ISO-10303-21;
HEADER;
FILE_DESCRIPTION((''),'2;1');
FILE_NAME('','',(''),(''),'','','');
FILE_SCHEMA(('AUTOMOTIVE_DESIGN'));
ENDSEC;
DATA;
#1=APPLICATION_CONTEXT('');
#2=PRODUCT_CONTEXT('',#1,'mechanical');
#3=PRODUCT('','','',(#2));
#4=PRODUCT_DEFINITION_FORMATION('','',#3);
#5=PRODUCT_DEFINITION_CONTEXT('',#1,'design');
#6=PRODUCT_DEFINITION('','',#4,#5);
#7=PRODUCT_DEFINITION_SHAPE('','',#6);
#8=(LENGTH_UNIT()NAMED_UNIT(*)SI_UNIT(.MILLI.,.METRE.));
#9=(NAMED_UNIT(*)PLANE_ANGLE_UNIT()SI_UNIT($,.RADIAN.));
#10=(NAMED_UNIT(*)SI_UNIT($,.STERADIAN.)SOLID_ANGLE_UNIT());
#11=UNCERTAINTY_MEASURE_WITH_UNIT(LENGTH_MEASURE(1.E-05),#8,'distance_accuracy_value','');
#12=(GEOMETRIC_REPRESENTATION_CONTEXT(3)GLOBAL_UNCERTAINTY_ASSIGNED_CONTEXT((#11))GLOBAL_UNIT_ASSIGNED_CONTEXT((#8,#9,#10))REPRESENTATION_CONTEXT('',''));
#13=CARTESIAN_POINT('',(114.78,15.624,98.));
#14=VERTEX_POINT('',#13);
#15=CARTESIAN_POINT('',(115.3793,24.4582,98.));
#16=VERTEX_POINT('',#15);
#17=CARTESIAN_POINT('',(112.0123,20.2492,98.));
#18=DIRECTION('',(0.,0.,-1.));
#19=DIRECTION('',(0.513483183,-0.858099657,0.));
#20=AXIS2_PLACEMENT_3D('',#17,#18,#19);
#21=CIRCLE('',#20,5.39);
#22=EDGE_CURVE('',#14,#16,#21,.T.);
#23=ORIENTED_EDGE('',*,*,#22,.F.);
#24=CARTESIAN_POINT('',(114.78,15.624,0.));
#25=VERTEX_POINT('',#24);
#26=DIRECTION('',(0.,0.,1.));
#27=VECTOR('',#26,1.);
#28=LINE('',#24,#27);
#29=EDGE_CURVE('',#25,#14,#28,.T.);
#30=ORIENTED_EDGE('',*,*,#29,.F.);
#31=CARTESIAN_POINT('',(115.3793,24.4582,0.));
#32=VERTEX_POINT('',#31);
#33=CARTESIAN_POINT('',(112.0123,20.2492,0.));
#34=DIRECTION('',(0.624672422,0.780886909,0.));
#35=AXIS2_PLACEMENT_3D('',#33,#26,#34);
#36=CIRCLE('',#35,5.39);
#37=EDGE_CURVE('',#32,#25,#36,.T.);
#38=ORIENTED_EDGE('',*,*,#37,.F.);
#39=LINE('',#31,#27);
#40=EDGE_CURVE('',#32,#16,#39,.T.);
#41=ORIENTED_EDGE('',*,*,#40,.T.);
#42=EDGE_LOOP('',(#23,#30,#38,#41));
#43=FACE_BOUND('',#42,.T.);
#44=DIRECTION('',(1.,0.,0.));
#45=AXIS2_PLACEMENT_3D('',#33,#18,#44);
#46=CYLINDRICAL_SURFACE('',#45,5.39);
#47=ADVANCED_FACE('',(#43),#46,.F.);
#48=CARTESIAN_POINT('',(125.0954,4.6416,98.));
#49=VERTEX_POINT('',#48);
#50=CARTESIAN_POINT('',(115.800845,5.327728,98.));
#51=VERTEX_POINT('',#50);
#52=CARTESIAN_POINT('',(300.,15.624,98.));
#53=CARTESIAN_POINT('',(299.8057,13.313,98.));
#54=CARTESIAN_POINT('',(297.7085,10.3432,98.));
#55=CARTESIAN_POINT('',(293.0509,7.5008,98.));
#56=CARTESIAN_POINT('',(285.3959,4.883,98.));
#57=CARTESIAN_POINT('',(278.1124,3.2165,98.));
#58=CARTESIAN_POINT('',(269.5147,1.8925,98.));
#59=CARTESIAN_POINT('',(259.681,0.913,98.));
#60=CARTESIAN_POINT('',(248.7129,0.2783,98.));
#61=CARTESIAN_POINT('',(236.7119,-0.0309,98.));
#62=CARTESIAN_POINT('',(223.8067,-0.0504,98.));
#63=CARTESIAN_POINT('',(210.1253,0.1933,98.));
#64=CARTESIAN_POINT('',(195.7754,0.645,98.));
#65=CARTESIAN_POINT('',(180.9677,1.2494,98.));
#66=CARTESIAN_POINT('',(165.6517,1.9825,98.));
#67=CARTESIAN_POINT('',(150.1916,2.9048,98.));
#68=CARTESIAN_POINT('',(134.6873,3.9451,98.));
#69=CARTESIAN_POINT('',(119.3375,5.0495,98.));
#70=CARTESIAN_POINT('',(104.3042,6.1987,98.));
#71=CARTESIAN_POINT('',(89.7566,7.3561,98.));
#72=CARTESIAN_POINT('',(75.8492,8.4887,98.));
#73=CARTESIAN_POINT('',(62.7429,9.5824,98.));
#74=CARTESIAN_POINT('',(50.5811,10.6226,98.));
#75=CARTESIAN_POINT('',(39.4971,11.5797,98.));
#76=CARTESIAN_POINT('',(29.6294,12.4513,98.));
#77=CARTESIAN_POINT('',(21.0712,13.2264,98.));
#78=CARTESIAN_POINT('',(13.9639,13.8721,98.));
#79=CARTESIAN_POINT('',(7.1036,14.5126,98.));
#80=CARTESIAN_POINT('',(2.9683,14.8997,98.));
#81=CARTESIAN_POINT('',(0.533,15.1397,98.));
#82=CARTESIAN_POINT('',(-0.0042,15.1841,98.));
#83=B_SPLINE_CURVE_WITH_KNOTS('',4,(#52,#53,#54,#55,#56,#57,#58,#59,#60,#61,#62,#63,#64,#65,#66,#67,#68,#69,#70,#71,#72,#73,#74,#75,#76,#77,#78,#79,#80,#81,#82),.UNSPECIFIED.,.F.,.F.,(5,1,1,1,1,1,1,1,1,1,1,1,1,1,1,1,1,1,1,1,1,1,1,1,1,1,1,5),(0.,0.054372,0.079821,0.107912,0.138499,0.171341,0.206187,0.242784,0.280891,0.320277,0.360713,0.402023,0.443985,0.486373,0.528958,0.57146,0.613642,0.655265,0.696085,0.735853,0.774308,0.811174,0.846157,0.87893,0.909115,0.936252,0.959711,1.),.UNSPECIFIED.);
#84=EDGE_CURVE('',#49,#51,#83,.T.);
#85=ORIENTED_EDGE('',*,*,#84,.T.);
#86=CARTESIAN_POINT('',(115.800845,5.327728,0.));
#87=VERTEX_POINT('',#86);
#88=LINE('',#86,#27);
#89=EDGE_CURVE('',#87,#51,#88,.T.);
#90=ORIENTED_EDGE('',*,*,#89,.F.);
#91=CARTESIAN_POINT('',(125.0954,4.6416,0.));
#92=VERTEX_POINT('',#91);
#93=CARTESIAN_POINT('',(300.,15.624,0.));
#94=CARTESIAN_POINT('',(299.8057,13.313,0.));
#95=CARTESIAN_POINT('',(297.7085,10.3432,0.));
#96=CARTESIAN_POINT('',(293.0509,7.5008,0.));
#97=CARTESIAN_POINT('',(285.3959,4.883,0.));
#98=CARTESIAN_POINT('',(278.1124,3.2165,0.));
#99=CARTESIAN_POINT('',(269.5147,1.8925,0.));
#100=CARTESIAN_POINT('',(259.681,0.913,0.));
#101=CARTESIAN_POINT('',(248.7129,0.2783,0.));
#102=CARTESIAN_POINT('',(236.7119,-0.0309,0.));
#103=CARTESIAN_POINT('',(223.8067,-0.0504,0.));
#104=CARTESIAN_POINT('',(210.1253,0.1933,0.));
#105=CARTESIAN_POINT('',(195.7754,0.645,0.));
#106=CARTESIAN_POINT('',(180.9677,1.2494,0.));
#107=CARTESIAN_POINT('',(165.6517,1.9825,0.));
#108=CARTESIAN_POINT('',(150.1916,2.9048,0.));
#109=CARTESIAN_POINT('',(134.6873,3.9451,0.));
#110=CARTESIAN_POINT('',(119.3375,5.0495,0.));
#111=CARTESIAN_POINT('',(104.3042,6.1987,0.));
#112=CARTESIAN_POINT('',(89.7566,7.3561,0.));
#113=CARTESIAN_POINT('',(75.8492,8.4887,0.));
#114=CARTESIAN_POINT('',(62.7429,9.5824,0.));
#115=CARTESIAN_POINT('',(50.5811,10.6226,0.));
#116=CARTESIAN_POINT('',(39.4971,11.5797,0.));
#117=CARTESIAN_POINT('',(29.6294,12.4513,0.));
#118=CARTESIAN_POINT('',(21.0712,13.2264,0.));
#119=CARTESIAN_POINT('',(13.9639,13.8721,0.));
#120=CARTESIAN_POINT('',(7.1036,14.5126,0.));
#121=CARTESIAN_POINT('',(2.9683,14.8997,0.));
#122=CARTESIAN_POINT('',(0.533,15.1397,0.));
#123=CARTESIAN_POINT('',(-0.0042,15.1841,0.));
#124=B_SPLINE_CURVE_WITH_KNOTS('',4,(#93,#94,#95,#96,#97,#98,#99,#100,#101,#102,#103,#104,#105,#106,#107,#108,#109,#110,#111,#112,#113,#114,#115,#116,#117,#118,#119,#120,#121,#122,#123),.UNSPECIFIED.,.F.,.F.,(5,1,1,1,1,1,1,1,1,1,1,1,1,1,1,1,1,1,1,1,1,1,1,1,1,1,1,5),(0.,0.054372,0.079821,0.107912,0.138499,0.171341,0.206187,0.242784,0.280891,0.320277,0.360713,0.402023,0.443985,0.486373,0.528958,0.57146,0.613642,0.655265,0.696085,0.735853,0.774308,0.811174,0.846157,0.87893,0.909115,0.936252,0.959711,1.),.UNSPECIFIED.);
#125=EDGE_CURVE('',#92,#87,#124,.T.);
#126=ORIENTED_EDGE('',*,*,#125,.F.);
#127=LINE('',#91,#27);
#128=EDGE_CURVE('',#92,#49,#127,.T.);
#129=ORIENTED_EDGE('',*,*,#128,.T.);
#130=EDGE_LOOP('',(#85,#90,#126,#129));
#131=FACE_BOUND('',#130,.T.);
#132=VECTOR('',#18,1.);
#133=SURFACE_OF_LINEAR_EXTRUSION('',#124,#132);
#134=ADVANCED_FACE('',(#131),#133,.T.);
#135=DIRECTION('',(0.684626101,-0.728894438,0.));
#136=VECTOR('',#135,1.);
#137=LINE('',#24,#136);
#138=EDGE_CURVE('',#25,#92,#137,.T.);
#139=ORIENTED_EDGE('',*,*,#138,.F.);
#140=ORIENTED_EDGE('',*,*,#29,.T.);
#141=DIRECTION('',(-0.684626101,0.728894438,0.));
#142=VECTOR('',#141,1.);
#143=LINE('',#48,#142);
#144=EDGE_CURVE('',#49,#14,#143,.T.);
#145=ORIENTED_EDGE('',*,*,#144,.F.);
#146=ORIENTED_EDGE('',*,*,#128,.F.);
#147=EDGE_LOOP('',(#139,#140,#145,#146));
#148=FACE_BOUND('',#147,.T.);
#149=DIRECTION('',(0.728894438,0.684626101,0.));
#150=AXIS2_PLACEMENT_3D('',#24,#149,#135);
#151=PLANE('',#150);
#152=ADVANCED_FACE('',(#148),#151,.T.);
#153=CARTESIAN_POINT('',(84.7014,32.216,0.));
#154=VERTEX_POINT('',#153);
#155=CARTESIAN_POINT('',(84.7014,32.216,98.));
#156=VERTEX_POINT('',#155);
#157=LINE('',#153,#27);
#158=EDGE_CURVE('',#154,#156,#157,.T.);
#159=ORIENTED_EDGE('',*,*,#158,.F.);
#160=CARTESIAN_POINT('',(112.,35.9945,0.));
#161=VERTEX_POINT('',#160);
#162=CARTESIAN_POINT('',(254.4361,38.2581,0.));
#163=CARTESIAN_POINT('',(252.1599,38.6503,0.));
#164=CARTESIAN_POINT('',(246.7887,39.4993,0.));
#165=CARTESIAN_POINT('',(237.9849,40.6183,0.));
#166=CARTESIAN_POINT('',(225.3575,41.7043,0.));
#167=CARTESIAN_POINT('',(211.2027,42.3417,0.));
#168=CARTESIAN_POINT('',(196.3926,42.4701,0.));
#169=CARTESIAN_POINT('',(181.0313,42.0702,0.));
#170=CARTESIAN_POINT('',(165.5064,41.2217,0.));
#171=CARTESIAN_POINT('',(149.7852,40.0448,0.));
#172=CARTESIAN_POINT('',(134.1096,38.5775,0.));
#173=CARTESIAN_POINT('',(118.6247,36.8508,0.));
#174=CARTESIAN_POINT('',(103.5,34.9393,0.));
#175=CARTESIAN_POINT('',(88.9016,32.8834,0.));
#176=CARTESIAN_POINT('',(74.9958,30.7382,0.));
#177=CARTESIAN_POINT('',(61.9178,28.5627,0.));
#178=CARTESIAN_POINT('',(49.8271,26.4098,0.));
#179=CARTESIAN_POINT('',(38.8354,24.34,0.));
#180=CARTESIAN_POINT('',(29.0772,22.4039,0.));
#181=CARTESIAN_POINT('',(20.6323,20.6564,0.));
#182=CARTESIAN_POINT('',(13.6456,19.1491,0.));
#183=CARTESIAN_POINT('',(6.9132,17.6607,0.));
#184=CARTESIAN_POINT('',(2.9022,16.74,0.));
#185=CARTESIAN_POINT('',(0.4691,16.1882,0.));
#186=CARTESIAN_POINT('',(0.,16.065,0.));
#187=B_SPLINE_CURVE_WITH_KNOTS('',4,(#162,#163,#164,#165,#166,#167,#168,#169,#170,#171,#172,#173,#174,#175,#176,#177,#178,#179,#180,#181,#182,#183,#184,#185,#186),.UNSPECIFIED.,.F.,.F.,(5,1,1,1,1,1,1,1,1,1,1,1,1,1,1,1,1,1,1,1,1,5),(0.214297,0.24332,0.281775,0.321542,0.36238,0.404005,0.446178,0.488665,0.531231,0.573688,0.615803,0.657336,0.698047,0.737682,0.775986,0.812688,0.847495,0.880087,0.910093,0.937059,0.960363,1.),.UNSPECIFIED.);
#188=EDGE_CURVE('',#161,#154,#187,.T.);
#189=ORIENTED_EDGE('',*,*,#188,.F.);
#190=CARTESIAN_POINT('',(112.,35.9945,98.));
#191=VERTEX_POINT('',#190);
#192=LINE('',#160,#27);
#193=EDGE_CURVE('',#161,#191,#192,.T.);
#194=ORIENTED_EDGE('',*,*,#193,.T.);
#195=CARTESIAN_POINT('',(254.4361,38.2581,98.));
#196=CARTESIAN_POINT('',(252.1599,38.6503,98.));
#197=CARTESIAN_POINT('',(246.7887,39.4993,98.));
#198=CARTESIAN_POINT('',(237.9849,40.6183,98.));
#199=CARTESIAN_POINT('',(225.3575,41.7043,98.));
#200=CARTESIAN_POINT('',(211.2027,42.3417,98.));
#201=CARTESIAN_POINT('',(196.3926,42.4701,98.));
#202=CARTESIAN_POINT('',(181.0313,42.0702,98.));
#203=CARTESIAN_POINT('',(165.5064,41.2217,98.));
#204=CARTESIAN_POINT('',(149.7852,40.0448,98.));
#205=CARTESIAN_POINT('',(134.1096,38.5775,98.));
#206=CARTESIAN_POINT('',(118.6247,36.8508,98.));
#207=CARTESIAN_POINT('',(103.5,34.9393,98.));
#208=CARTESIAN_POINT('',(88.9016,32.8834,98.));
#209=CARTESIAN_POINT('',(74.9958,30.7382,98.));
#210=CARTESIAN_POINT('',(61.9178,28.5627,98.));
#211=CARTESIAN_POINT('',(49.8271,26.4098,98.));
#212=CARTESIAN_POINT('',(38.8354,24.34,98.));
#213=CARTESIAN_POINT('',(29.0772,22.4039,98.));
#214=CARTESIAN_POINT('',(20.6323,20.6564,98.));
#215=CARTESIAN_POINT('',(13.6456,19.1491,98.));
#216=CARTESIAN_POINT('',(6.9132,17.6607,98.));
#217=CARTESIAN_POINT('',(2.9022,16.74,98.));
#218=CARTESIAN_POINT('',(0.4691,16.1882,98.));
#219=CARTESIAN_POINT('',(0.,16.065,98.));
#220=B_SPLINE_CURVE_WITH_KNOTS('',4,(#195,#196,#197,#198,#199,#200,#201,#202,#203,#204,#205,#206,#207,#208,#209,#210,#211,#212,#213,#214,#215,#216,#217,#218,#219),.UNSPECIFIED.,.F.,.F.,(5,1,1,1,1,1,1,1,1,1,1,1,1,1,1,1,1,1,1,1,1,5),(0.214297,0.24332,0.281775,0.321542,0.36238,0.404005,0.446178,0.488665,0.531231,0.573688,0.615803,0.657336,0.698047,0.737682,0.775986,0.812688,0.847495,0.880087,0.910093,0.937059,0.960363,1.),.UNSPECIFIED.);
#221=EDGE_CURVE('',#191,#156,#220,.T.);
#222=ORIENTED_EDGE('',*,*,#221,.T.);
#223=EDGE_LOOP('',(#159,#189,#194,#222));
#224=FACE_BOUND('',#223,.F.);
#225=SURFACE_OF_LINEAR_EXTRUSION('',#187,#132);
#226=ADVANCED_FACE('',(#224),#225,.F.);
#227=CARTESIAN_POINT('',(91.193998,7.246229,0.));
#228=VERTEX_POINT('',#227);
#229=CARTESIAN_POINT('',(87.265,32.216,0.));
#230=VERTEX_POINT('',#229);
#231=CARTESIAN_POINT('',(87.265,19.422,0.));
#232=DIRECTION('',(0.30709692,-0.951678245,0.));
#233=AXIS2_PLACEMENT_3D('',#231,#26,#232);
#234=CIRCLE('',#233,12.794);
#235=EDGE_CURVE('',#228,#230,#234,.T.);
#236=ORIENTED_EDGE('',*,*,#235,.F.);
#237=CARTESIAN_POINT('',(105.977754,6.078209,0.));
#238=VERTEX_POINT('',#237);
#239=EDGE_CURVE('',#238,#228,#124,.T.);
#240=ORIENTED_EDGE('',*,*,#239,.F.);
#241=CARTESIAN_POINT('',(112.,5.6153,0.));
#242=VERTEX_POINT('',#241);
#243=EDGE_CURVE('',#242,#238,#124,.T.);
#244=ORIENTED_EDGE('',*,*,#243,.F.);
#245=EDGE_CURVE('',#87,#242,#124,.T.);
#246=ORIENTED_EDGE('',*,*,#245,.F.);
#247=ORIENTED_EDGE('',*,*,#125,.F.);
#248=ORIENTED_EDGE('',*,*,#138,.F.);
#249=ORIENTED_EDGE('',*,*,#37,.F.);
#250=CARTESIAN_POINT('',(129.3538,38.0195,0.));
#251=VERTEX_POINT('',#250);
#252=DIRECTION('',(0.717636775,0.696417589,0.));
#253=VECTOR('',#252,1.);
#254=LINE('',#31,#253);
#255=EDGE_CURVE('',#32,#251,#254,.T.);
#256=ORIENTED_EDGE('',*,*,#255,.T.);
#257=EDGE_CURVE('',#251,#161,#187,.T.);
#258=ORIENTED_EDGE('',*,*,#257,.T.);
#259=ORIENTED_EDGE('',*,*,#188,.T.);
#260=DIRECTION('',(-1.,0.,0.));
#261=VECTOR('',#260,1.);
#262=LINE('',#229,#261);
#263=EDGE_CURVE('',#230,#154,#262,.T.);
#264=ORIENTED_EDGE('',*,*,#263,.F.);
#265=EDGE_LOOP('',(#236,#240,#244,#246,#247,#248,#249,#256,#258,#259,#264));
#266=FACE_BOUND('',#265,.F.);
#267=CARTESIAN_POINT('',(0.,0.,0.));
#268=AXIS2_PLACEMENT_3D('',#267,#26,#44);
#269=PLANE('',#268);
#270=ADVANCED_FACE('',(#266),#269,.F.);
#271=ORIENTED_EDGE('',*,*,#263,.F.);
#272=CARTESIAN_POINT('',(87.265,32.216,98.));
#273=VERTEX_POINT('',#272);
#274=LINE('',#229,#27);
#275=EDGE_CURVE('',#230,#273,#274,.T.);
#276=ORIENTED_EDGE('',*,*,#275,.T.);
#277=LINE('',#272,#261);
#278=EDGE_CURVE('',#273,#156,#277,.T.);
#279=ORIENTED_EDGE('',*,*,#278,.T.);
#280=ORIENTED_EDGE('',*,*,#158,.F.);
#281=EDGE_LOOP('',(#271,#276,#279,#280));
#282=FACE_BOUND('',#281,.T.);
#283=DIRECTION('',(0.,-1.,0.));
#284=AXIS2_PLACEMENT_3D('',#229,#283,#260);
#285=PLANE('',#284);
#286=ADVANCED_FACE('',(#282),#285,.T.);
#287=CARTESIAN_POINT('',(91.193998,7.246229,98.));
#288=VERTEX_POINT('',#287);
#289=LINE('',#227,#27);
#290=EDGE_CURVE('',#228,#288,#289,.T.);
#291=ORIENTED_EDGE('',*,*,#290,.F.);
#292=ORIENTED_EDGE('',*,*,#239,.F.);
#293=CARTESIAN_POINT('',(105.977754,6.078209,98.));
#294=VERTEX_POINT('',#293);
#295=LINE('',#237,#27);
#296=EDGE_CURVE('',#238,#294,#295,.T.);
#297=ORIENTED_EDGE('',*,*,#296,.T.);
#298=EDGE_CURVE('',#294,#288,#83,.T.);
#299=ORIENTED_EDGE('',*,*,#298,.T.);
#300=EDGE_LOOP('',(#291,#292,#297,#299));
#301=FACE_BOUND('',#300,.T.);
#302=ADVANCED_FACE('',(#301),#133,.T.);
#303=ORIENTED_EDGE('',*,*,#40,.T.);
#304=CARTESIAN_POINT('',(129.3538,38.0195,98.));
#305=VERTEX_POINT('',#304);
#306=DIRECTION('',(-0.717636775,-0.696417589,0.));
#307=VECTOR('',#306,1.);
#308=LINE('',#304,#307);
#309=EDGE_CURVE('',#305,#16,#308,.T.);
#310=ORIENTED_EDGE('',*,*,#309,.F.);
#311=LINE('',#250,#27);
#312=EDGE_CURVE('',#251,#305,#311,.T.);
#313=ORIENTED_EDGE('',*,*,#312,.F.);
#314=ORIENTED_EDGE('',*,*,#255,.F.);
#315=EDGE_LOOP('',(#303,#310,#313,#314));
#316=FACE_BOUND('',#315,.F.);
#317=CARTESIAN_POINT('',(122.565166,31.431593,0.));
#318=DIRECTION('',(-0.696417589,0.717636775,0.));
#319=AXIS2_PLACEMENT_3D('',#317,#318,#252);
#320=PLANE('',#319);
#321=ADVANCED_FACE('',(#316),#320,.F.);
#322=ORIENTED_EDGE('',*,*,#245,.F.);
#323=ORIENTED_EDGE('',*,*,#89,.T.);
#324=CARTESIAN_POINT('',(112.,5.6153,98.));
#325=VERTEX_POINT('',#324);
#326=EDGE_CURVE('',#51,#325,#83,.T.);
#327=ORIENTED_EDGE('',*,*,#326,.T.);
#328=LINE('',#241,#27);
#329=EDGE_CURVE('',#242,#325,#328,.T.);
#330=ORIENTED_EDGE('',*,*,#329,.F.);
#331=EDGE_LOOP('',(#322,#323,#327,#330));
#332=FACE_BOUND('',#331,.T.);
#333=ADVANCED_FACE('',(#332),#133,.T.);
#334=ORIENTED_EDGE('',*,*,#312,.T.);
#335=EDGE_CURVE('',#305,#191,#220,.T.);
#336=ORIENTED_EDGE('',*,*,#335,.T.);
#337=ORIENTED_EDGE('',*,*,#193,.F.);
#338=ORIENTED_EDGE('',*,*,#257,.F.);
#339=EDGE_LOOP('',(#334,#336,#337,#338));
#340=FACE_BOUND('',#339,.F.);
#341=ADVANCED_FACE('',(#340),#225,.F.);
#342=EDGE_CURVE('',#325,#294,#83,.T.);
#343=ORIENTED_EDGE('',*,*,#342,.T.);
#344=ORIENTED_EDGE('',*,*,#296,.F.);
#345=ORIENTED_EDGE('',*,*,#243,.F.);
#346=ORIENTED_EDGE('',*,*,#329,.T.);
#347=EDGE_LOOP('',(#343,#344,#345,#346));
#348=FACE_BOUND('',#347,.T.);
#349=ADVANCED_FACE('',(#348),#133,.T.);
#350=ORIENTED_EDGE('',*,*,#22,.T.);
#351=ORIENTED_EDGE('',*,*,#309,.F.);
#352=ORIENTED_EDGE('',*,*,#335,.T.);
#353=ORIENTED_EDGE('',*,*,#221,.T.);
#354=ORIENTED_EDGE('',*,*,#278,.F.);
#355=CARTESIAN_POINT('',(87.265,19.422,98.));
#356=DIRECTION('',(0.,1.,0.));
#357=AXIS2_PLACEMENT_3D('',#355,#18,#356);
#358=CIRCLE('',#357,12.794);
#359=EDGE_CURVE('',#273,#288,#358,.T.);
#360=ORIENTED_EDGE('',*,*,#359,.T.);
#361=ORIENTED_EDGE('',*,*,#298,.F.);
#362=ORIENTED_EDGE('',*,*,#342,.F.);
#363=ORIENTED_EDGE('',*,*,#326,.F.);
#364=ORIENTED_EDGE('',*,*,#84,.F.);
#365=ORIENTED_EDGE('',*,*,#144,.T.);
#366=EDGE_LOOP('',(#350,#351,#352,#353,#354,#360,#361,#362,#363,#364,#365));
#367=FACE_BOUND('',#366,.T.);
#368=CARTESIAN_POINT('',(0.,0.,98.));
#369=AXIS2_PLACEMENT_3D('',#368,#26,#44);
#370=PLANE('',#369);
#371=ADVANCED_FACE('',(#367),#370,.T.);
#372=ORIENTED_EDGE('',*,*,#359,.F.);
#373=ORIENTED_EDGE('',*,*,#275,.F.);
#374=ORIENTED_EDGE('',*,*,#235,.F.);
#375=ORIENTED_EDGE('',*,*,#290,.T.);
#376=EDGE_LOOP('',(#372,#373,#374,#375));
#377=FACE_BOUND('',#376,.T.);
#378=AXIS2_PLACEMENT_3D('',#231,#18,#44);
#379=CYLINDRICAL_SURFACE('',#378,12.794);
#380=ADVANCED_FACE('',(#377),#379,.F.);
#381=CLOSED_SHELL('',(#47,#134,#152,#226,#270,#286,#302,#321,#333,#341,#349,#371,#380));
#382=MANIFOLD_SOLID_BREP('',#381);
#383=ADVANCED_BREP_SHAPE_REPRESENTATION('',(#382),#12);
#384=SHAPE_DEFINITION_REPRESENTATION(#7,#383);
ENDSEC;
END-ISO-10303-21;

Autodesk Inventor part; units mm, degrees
ref_plane "YZ Plane" through (0, 0, 0) normal (1, 0, 0) x (0, 1, 0)
ref_plane "XZ Plane" through (0, 0, 0) normal (0, 1, 0) x (-1, 0, 0)
ref_plane "XY Plane" through (0, 0, 0) normal (0, 0, 1) x (1, 0, 0)
sketch "Sketch1" plane through (0, 0, 0) normal (0, 0, 1) x (1, 0, 0)
  spline S0 degree 4 poles (254.4361, 38.2581) (252.1599, 38.6503) (246.7887, 39.4993) (237.9849, 40.6183) (225.3575, 41.7043) (211.2027, 42.3417) (196.3926, 42.4701) (181.0313, 42.0702) (165.5064, 41.2217) (149.7852, 40.0448) (134.1096, 38.5775) (118.6247, 36.8508) (103.5, 34.9393) (88.9016, 32.8834) (74.9958, 30.7382) (61.9178, 28.5627) (49.8271, 26.4098) (38.8354, 24.34) (29.0772, 22.4039) (20.6323, 20.6564) (13.6456, 19.1491) (6.9132, 17.6607) (2.9022, 16.74) (0.4691, 16.1882) (0, 16.065) knots 0.214297 0.214297 0.214297 0.214297 0.214297 0.24332 0.281775 0.321542 0.36238 0.404005 0.446178 0.488665 0.531231 0.573688 0.615803 0.657336 0.698047 0.737682 0.775986 0.812688 0.847495 0.880087 0.910093 0.937059 0.960363 1 1 1 1 1
  spline S1 degree 4 poles (300, 15.624) (299.8057, 13.313) (297.7085, 10.3432) (293.0509, 7.5008) (285.3959, 4.883) (278.1124, 3.2165) (269.5147, 1.8925) (259.681, 0.913) (248.7129, 0.2783) (236.7119, -0.0309) (223.8067, -0.0504) (210.1253, 0.1933) (195.7754, 0.645) (180.9677, 1.2494) (165.6517, 1.9825) (150.1916, 2.9048) (134.6873, 3.9451) (119.3375, 5.0495) (104.3042, 6.1987) (89.7566, 7.3561) (75.8492, 8.4887) (62.7429, 9.5824) (50.5811, 10.6226) (39.4971, 11.5797) (29.6294, 12.4513) (21.0712, 13.2264) (13.9639, 13.8721) (7.1036, 14.5126) (2.9683, 14.8997) (0.533, 15.1397) (-0.0042, 15.1841) knots 0 0 0 0 0 0.054372 0.079821 0.107912 0.138499 0.171341 0.206187 0.242784 0.280891 0.320277 0.360713 0.402023 0.443985 0.486373 0.528958 0.57146 0.613642 0.655265 0.696085 0.735853 0.774308 0.811174 0.846157 0.87893 0.909115 0.936252 0.959711 1 1 1 1 1
  arc A0 (0, 16.065) -> (-0.0042, 15.1841) centre (0.1158, 15.624) ccw
  line L0 (0.1158, 15.624) -> (227.9902, 15.624) construction
  line L1 (300, 15.624) -> (0.1158, 15.624) construction
  line L2 (300, 15.624) -> (200, 15.624) construction
  line L3 (200, 15.624) -> (200, 42.3773) construction
  line L4 (200, 15.624) -> (200, 0.5273)
  line L5 (0, 0) -> (0, 20.241)
  line L6 (0, 20.241) -> (238.581, 20.241) construction
  circle A1 centre (238.581, 20.241) radius 14
  line L7 (238.581, 20.241) -> (208.581, 20.241)
  line L8 (238.581, 25.359) -> (238.581, 20.241)
  line L9 (0, 20.241) -> (112, 20.241) construction
  line L10 (0, 15.624) -> (112, 15.624) construction
  line L11 (0, 15.624) -> (112, 15.624) construction
  line L12 (112, 15.624) -> (112, 35.9945)
  line L13 (112, 15.624) -> (112, 5.6153)
  spline S2 degree 4 poles (299.2852, 20.241) (299.2279, 20.1316) (299.168, 20.0232) (299.1056, 19.9158) (299.0406, 19.8092) knots 0.014818 0.014818 0.014818 0.014818 0.014818 0.017711 0.017711 0.017711 0.017711 0.017711
  line L14 (299.2071, 20.0822) -> (298.8742, 19.5363) construction
  arc A2 (298.904, 19.5932) -> (299.1702, 20.0296) centre (292.2911, 23.9254) ccw construction
  line L15 (299.432, 20.5214) -> (299.1384, 19.9606) construction
  arc A3 (299.1639, 20.0188) -> (299.3987, 20.4672) centre (292.801, 23.6361) ccw construction
  spline S3 degree 2 poles (295.8506, 16.56) (295.1573, 16.0692) (294.3933, 15.624) knots 0 0 0 1 1 1
  line L16 (294.5507, 15.7157) -> (294.2359, 15.5323) construction
  arc A4 (294.2672, 15.5511) -> (294.519, 15.6978) centre (283.8844, 33.657) ccw construction
  spline S4 degree 4 poles (296.8569, 15.624) (296.6183, 15.8629) (296.3707, 16.0985) (296.1147, 16.3309) (295.8506, 16.56) knots 0.044099 0.044099 0.044099 0.044099 0.044099 0.050856 0.050856 0.050856 0.050856 0.050856
  spline S5 degree 4 poles (219.5872, 34.9119) (218.6954, 34.952) (214.8585, 35.1063) (210.7072, 35.3295) (192.898, 35.4464) (181.4278, 35.0555) (165.1774, 34.1819) (149.5619, 33.1267) (133.8284, 31.3479) (128.2654, 31.0974) (123.3908, 30.59) knots 0 0 0 0 0 0.139244 0.23322 0.363937 0.509983 0.657115 0.798105 1 1 1 1 1
  line L17 (295.9593, 16.4657) -> (295.7419, 16.6543) construction
  arc A5 (295.9374, 16.4843) -> (295.7635, 16.6352) centre (281.8729, 0.4516) ccw construction
  line L18 (232.7438, 34.3645) -> (201.1936, 35.6815) construction
  arc A6 (229.5868, 34.4549) -> (204.3471, 35.5085) centre (136.3483, -1896.3245) ccw construction
  arc A7 (264.2661, 15.123) -> (264.3608, 15.624) centre (238.581, 20.241) ccw
  circle A8 centre (238.581, 20.241) radius 24
  circle A9 centre (112, 20.241) radius 15.39
  spline S6 degree 4 poles (300, 15.624) (300.2691, 17.9337) (298.7834, 21.2677) (294.6934, 24.9798) (287.5317, 28.9406) (280.4869, 31.8205) (271.481, 34.7182) (262.4868, 36.793) (257.7004, 37.6957) (254.4361, 38.2581) knots 0 0 0 0 0 0.247555 0.363857 0.49255 0.632996 0.778264 1 1 1 1 1
  line L19 (285.2945, 32.941) -> (223.5776, 43.5753) construction
  arc A10 (278.7224, 32.6349) -> (229.6682, 41.0872) centre (217.2184, -177.7386) ccw construction
  line L20 (285.2945, 32.941) -> (223.5776, 43.5753) construction
  arc A11 (278.8771, 33.0418) -> (229.6586, 41.5224) centre (200.8949, -272.4733) ccw construction
  spline S7 degree 4 poles (251.493, 31.7362) (243.7009, 32.9676) (232.1602, 34.2966) (216.4428, 35.2879) (196.3923, 35.4611) (181.0317, 35.0615) (165.5053, 34.2127) (149.7883, 33.0365) (134.1012, 31.5672) (118.6474, 29.8462) (103.4397, 27.9193) (89.0589, 25.9037) (74.8371, 23.6927) (62.4884, 21.6695) (49.6399, 19.3545) (46.3795, 18.7429) (43.8125, 18.259) knots 0 0 0 0 0 0.163963 0.232338 0.302031 0.372642 0.443778 0.515047 0.586134 0.656647 0.726187 0.794348 0.86071 0.920346 1 1 1 1 1 construction
  spline S8 degree 4 poles (295.845, 16.556) (295.7198, 16.6646) (294.585, 17.6283) (292.0585, 19.4283) (287.5167, 21.9347) (280.467, 24.8321) (271.9714, 27.5226) (264.2087, 29.4004) (258.4092, 30.5515) (255.0536, 31.1429) (254.4361, 31.2493) (253.9689, 31.3298) (253.5018, 31.4103) (253.0347, 31.4908) (252.5676, 31.5712) knots 0.050892 0.050892 0.050892 0.050892 0.050892 0.054094 0.079507 0.107628 0.138317 0.171335 0.206423 0.214297 0.214297 0.214297 0.214297 0.220253 0.220253 0.220253 0.220253 0.220253
  line L21 (285.2945, 25.9322) -> (223.5776, 36.5664) construction
  line L22 (285.2945, 25.9322) -> (223.5776, 36.5664) construction
  arc A12 (278.7224, 25.626) -> (229.6682, 34.0784) centre (217.2184, -184.7474) ccw construction
  line L23 (270.129, 9.1254) -> (275.129, 9.1254) construction
  line L24 (281.07, 24.4582) -> (286.07, 24.4582) construction
  line L25 (318.8214, -3.3673) -> (272.8686, 36.4793) construction
  arc A13 (303.2079, 0.552) -> (278.9595, 21.5782) centre (281.8576, 0.4252) ccw construction
  spline S9 degree 4 poles (295.8353, 16.5644) (293.4171, 14.8846) (288.4135, 12.6926) (280.7063, 10.6698) (269.511, 8.9398) (259.6826, 7.9632) (248.7122, 7.3273) (236.7121, 7.0186) (223.8065, 6.9989) (210.1254, 7.2427) (195.7753, 7.6944) (180.968, 8.2987) (165.6509, 9.032) (150.1939, 9.954) (134.681, 10.995) (119.3545, 12.0974) (104.259, 13.2519) (89.8748, 14.3954) (75.7524, 15.5471) (62.9065, 16.6165) (50.5107, 17.6776) (46.5166, 18.0246) (43.8125, 18.259) knots 0 0 0 0 0 0.084767 0.124025 0.166179 0.210904 0.257877 0.306788 0.35734 0.409241 0.462263 0.516122 0.570528 0.625186 0.679738 0.73388 0.787304 0.839697 0.89074 0.937143 1 1 1 1 1
  spline S10 degree 4 poles (21.4623, 20.241) (20.6227, 20.317) (20.124, 20.3622) (19.9191, 20.3809) (19.554, 20.414) knots 0.979732 0.979732 0.979732 0.979732 0.979732 1 1 1 1 1 construction
  line L26 (68.4884, 16.1198) -> (19.1367, 20.3983) construction
  arc A14 (63.5515, 16.5281) -> (24.0702, 19.9509) centre (-819.8994, -9944.3712) ccw construction
  line L27 (21.7244, 20.2173) -> (21.2001, 20.2647) construction
  arc A15 (21.2525, 20.26) -> (21.672, 20.222) centre (898.6358, 9712.9556) ccw construction
  line L28 (74.2541, 23.9969) -> (13.371, 12.5211) construction
  arc A16 (68.1759, 22.7939) -> (19.47, 13.6134) centre (1053.3901, -5337.891) ccw construction
  spline S11 degree 4 poles (218.4375, 7.1934) (217.6173, 7.2408) (213.8192, 7.4688) (209.5863, 6.8507) (192.5485, 7.9441) (181.1469, 8.163) (165.7461, 9.0283) (149.1424, 9.8801) (139.9777, 10.7519) (129.1073, 11.2464) (124.6867, 11.5289) knots 0 0 0 0 0 0.127631 0.213723 0.333628 0.467446 0.602621 0.738424 0.880395 0.880395 0.880395 0.880395 0.880395 construction
  line L29 (133.5337, 10.9635) -> (115.8396, 12.0942) construction
  arc A17 (117.618, 12.0789) -> (131.7678, 11.1747) centre (141.027, 267.2384) ccw construction
  line L30 (140.665, 32.3881) -> (106.1166, 28.792) construction
  arc A18 (137.222, 31.4497) -> (109.679, 28.5828) centre (140.6225, -134.9596) ccw construction
  circle A19 centre (238.581, 20.241) radius 18
  line L31 (238.581, 38.241) -> (225.78, 41.559)
  line L32 (238.581, 2.241) -> (224.22, 0)
  line L33 (214.581, 20.241) -> (214.581, 42.1266) construction
  line L34 (127.39, 20.241) -> (127.39, 11.5255) construction
  line L35 (127.39, 20.241) -> (131.3139, 20.241) construction
  line L36 (96.61, 20.241) -> (96.61, 13.8631) construction
  line L37 (270.129, 5.6153) -> (270.129, 15.624) construction
  line L38 (272.129, 7.6153) -> (272.129, 13.624)
  line L39 (268.129, 13.624) -> (268.129, 7.6153)
  arc A20 (268.129, 7.6153) -> (272.129, 7.6153) centre (270.129, 7.6153) ccw
  arc A21 (272.129, 13.624) -> (268.129, 13.624) centre (270.129, 13.624) ccw
  line L40 (270.129, 32.1807) -> (270.129, 22.172) construction
  line L41 (272.129, 30.1807) -> (272.129, 24.172)
  line L42 (268.129, 24.172) -> (268.129, 30.1807)
  arc A22 (272.129, 30.1807) -> (268.129, 30.1807) centre (270.129, 30.1807) ccw
  arc A23 (268.129, 24.172) -> (272.129, 24.172) centre (270.129, 24.172) ccw
  arc A24 (200, 42.3155) -> (199.8539, 42.3773) centre (190.581, 20.241) ccw
  arc A25 (171.273, 34.4958) -> (171.2681, 34.4892) centre (190.581, 20.241) ccw
  arc A26 (210.7484, 7.2304) -> (209.2875, 35.2765) centre (190.581, 20.241) ccw
  arc A27 (169.4455, 8.8703) -> (169.4744, 8.8168) centre (190.581, 20.241) ccw
  arc A28 (153.9768, 9.6824) -> (154.0303, 9.7394) centre (142.78, 20.241) ccw
  arc A29 (151.2419, 33.0959) -> (151.2193, 33.1107) centre (142.78, 20.241) ccw
  arc A30 (132.1299, 31.3508) -> (130.3229, 11.2037) centre (142.78, 20.241) ccw
  arc A31 (66.334, 16.3348) -> (66.5389, 15.624) centre (81.22, 20.241) ccw
  line L43 (112, 20.241) -> (112, 14.851) construction
  line L44 (112, 14.851) -> (91.265, 14.851) construction
  line L45 (112, 20.241) -> (87.265, 20.241) construction
  line L46 (87.265, 20.241) -> (87.265, 19.422) construction
  circle A32 centre (87.265, 19.422) radius 12.794
  line L47 (87.265, 32.216) -> (84.7014, 32.216)
  circle A33 centre (112.0123, 20.2492) radius 5.39
  line L48 (122.5954, 17.6185) -> (122.5954, 13.8685)
  line L49 (122.5954, 21.3685) -> (122.5954, 13.8685)
  line L50 (127.5954, 13.8685) -> (127.5954, 21.3685)
  line L51 (122.5954, 13.8685) -> (127.5954, 13.8685)
  line L52 (127.5954, 21.3685) -> (122.5954, 21.3685)
  line L53 (112.0123, 20.2492) -> (146.6953, 20.2492) construction
  line L54 (167.5954, 17.6185) -> (170.0954, 17.6185) construction
  line L55 (167.5954, 17.6185) -> (167.5954, 21.3685)
  line L56 (167.5954, 13.8685) -> (167.5954, 21.3685)
  line L57 (162.5954, 13.8685) -> (167.5954, 13.8685)
  line L58 (162.5954, 21.3685) -> (162.5954, 13.8685)
  line L59 (167.5954, 21.3685) -> (162.5954, 21.3685)
  line L60 (146.5954, 17.6185) -> (170.5954, 17.6185) construction
  line L61 (146.5954, 17.6185) -> (167.5954, 17.6185) construction
  arc A34 (179.5651, 35.2547) -> (178.1042, 7.2085) centre (198.2716, 20.2192) ccw
  line L62 (115.3793, 24.4582) -> (129.3538, 38.0195)
  line L63 (115.3793, 16.0238) -> (129.3538, 2.4625)
  line L64 (114.78, 15.624) -> (125.0954, 4.6416)
  point P0 (0.783, 16.254)
  point P1 (3.213, 16.812)
  point P2 (7.239, 17.724)
  point P3 (12.813, 18.96)
  point P4 (19.884, 20.484)
  point P5 (28.374, 22.245)
  point P6 (38.199, 24.195)
  point P7 (49.254, 26.28)
  point P8 (61.419, 28.446)
  point P9 (74.571, 30.636)
  point P10 (88.56, 32.793)
  point P11 (103.242, 34.86)
  point P12 (118.455, 36.783)
  point P13 (134.028, 38.511)
  point P14 (149.793, 39.984)
  point P15 (165.576, 41.16)
  point P16 (181.206, 41.985)
  point P17 (196.638, 42.363)
  point P18 (211.554, 42.222)
  point P19 (239.145, 40.389)
  point P20 (262.68, 36.666)
  point P21 (272.577, 34.218)
  point P22 (281.07, 31.467)
  point P23 (288.069, 28.491)
  point P24 (293.505, 25.359)
  point P25 (297.324, 22.137)
  point P26 (300, 15.624)
  point P27 (0.861, 15.105)
  point P28 (3.342, 14.868)
  point P29 (7.446, 14.481)
  point P30 (13.122, 13.953)
  point P31 (20.31, 13.296)
  point P32 (28.92, 12.519)
  point P33 (38.856, 11.64)
  point P34 (50.007, 10.674)
  point P35 (62.244, 9.63)
  point P36 (75.429, 8.529)
  point P37 (89.418, 7.389)
  point P38 (104.052, 6.228)
  point P39 (119.172, 5.076)
  point P40 (134.613, 3.966)
  point P41 (150.207, 2.928)
  point P42 (165.783, 2.013)
  point P43 (181.167, 1.263)
  point P44 (196.068, 0.663)
  point P45 (210.468, 0.225)
  point P46 (237.189, 0.039)
  point P47 (249.246, 0.378)
  point P48 (260.262, 1.05)
  point P49 (270.129, 2.076)
  point P50 (278.739, 3.462)
  point P51 (285.993, 5.211)
  point P52 (291.81, 7.314)
  point P53 (296.121, 9.756)
  point P54 (298.863, 12.531)
  point P55 (200, 15.624)
  point P56 (225.3642, 15.624)
  point P57 (238.581, 6.241)
  point P58 (238.581, 34.241)
  point P59 (225.3642, 15.624)
  point P60 (251.7978, 15.624)
  point P61 (0, 16.065)
  point P62 (0, 15.1838)
  point P63 (224.581, 20.241)
  point P64 (0, 9.065)
  point P65 (0.783, 9.254)
  point P66 (3.213, 9.812)
  point P67 (7.239, 10.724)
  point P68 (12.813, 11.96)
  point P69 (19.884, 13.484)
  point P70 (28.374, 15.245)
  point P71 (38.199, 17.195)
  point P72 (49.254, 19.28)
  point P73 (61.419, 21.446)
  point P74 (74.571, 23.636)
  point P75 (88.56, 25.793)
  point P76 (103.242, 27.86)
  point P77 (118.455, 29.783)
  point P78 (134.028, 31.511)
  point P79 (149.793, 32.984)
  point P80 (165.576, 34.16)
  point P81 (181.206, 34.985)
  point P82 (225.78, 34.559)
  point P83 (239.145, 33.389)
  point P84 (251.493, 31.745)
  point P85 (262.68, 29.666)
  point P86 (272.577, 27.218)
  point P87 (281.07, 24.467)
  point P88 (288.069, 21.491)
  point P89 (293.505, 18.359)
  point P90 (297.324, 15.137)
  point P91 (299.493, 11.879)
  point P92 (300, 8.624)
  point P93 (-0.0042, 22.1841)
  point P94 (0.861, 22.105)
  point P95 (3.342, 21.868)
  point P96 (7.446, 21.481)
  point P97 (13.122, 20.953)
  point P98 (20.31, 20.296)
  point P99 (28.92, 19.519)
  point P100 (38.856, 18.64)
  point P101 (50.007, 17.674)
  point P102 (62.244, 16.63)
  point P103 (75.429, 15.529)
  point P104 (89.418, 14.389)
  point P105 (104.052, 13.228)
  point P106 (119.172, 12.076)
  point P107 (134.613, 10.966)
  point P108 (150.207, 9.928)
  point P109 (165.783, 9.013)
  point P110 (181.167, 8.263)
  point P111 (196.068, 7.663)
  point P112 (210.468, 7.225)
  point P113 (224.22, 7)
  point P114 (237.189, 7.039)
  point P115 (249.246, 7.378)
  point P116 (260.262, 8.05)
  point P117 (270.129, 9.076)
  point P118 (278.739, 10.462)
  point P119 (285.993, 12.211)
  point P120 (291.81, 14.314)
  point P121 (296.121, 16.756)
  point P122 (298.863, 19.531)
  point P123 (300, 22.624)
  point P124 (18.7405, 20.241)
  point P125 (216.9687, 35.023)
  point P126 (0, 16.065)
  point P127 (296.8569, 15.624)
  point P128 (294.3933, 15.624)
  point P129 (219.5872, 34.9119)
  point P130 (123.3908, 30.59)
  point P131 (254.4361, 38.2581)
  point P132 (0, 9.0562)
  point P133 (0.783, 9.2452)
  point P134 (3.213, 9.8032)
  point P135 (7.239, 10.7152)
  point P136 (12.813, 11.9512)
  point P137 (19.884, 13.4752)
  point P138 (28.374, 15.2362)
  point P139 (38.199, 17.1862)
  point P140 (49.254, 19.2712)
  point P141 (61.419, 21.4372)
  point P142 (74.571, 23.6272)
  point P143 (88.56, 25.7842)
  point P144 (103.242, 27.8512)
  point P145 (118.455, 29.7742)
  point P146 (134.028, 31.5022)
  point P147 (149.793, 32.9752)
  point P148 (165.576, 34.1512)
  point P149 (181.206, 34.9762)
  point P150 (196.638, 35.3542)
  point P151 (211.554, 35.2132)
  point P152 (225.78, 34.5502)
  point P153 (262.68, 29.6572)
  point P154 (272.577, 27.2092)
  point P155 (297.324, 15.1282)
  point P156 (299.493, 11.8702)
  point P157 (300, 8.6152)
  point P158 (254.4361, 31.2493)
  point P159 (216.8848, -206.3625)
  point P160 (278.8769, 26.0734)
  point P161 (229.5906, 33.8662)
  point P162 (-0.0042, 22.2335)
  point P163 (0.861, 22.1544)
  point P164 (3.342, 21.9174)
  point P165 (7.446, 21.5304)
  point P166 (13.122, 21.0024)
  point P167 (28.92, 19.5684)
  point P168 (38.856, 18.6894)
  point P169 (50.007, 17.7234)
  point P170 (62.244, 16.6794)
  point P171 (75.429, 15.5784)
  point P172 (89.418, 14.4384)
  point P173 (104.052, 13.2774)
  point P174 (119.172, 12.1254)
  point P175 (134.613, 11.0154)
  point P176 (150.207, 9.9774)
  point P177 (165.783, 9.0624)
  point P178 (181.167, 8.3124)
  point P179 (196.068, 7.7124)
  point P180 (210.468, 7.2744)
  point P181 (224.22, 7.0494)
  point P182 (237.189, 7.0884)
  point P183 (249.246, 7.4274)
  point P184 (260.262, 8.0994)
  point P185 (278.739, 10.5114)
  point P186 (285.993, 12.2604)
  point P187 (296.121, 16.8054)
  point P188 (298.863, 19.5804)
  point P189 (300, 22.6734)
  point P190 (225.7, -0.0094)
  point P191 (252.2617, 0.522)
  point P192 (227.3495, 41.4508)
  point P193 (105.9778, 6.0782)
  point P194 (115.8008, 5.3277)
  point P195 (98.26, 27.1738)
  point P196 (260.4522, 30.1228)
  point P197 (123.5853, 30.3718)
  point P198 (134.5979, 31.5604)
  point P199 (134.4982, 31.5502)
  dimension "d63" = 25.588
  dimension "d17" = 100
  dimension "d19" = 20.241
  dimension "d20" = 238.581
  dimension "d21" = 28
  dimension "d37" = 112
  dimension "d39" = 112
  dimension "d40" = 0
  dimension "d43" = 10
  dimension "d55" = 4
  dimension "d56" = 90
  dimension "d58" = 4
  dimension "d59" = 20.735
  dimension "d61" = 24.735
  dimension "d62" = 0.819
  dimension "d64" = 34.683
extrude "Extrusion3" add sketch "Sketch1" along normal blind 98 contours L62 A9 L12 S0 | L12 A9 A32 L47 S0 | L62 A33 L12 A9 | L12 A33 L13 S9 A32 A9 | A33 L64 S9 L13 | S9 L64 A9 S1 L13 | L13 S1 A9 A32 S9 | A9 S1 A32 | L64 S1 A9
properties part number "R10-11 Foam"
